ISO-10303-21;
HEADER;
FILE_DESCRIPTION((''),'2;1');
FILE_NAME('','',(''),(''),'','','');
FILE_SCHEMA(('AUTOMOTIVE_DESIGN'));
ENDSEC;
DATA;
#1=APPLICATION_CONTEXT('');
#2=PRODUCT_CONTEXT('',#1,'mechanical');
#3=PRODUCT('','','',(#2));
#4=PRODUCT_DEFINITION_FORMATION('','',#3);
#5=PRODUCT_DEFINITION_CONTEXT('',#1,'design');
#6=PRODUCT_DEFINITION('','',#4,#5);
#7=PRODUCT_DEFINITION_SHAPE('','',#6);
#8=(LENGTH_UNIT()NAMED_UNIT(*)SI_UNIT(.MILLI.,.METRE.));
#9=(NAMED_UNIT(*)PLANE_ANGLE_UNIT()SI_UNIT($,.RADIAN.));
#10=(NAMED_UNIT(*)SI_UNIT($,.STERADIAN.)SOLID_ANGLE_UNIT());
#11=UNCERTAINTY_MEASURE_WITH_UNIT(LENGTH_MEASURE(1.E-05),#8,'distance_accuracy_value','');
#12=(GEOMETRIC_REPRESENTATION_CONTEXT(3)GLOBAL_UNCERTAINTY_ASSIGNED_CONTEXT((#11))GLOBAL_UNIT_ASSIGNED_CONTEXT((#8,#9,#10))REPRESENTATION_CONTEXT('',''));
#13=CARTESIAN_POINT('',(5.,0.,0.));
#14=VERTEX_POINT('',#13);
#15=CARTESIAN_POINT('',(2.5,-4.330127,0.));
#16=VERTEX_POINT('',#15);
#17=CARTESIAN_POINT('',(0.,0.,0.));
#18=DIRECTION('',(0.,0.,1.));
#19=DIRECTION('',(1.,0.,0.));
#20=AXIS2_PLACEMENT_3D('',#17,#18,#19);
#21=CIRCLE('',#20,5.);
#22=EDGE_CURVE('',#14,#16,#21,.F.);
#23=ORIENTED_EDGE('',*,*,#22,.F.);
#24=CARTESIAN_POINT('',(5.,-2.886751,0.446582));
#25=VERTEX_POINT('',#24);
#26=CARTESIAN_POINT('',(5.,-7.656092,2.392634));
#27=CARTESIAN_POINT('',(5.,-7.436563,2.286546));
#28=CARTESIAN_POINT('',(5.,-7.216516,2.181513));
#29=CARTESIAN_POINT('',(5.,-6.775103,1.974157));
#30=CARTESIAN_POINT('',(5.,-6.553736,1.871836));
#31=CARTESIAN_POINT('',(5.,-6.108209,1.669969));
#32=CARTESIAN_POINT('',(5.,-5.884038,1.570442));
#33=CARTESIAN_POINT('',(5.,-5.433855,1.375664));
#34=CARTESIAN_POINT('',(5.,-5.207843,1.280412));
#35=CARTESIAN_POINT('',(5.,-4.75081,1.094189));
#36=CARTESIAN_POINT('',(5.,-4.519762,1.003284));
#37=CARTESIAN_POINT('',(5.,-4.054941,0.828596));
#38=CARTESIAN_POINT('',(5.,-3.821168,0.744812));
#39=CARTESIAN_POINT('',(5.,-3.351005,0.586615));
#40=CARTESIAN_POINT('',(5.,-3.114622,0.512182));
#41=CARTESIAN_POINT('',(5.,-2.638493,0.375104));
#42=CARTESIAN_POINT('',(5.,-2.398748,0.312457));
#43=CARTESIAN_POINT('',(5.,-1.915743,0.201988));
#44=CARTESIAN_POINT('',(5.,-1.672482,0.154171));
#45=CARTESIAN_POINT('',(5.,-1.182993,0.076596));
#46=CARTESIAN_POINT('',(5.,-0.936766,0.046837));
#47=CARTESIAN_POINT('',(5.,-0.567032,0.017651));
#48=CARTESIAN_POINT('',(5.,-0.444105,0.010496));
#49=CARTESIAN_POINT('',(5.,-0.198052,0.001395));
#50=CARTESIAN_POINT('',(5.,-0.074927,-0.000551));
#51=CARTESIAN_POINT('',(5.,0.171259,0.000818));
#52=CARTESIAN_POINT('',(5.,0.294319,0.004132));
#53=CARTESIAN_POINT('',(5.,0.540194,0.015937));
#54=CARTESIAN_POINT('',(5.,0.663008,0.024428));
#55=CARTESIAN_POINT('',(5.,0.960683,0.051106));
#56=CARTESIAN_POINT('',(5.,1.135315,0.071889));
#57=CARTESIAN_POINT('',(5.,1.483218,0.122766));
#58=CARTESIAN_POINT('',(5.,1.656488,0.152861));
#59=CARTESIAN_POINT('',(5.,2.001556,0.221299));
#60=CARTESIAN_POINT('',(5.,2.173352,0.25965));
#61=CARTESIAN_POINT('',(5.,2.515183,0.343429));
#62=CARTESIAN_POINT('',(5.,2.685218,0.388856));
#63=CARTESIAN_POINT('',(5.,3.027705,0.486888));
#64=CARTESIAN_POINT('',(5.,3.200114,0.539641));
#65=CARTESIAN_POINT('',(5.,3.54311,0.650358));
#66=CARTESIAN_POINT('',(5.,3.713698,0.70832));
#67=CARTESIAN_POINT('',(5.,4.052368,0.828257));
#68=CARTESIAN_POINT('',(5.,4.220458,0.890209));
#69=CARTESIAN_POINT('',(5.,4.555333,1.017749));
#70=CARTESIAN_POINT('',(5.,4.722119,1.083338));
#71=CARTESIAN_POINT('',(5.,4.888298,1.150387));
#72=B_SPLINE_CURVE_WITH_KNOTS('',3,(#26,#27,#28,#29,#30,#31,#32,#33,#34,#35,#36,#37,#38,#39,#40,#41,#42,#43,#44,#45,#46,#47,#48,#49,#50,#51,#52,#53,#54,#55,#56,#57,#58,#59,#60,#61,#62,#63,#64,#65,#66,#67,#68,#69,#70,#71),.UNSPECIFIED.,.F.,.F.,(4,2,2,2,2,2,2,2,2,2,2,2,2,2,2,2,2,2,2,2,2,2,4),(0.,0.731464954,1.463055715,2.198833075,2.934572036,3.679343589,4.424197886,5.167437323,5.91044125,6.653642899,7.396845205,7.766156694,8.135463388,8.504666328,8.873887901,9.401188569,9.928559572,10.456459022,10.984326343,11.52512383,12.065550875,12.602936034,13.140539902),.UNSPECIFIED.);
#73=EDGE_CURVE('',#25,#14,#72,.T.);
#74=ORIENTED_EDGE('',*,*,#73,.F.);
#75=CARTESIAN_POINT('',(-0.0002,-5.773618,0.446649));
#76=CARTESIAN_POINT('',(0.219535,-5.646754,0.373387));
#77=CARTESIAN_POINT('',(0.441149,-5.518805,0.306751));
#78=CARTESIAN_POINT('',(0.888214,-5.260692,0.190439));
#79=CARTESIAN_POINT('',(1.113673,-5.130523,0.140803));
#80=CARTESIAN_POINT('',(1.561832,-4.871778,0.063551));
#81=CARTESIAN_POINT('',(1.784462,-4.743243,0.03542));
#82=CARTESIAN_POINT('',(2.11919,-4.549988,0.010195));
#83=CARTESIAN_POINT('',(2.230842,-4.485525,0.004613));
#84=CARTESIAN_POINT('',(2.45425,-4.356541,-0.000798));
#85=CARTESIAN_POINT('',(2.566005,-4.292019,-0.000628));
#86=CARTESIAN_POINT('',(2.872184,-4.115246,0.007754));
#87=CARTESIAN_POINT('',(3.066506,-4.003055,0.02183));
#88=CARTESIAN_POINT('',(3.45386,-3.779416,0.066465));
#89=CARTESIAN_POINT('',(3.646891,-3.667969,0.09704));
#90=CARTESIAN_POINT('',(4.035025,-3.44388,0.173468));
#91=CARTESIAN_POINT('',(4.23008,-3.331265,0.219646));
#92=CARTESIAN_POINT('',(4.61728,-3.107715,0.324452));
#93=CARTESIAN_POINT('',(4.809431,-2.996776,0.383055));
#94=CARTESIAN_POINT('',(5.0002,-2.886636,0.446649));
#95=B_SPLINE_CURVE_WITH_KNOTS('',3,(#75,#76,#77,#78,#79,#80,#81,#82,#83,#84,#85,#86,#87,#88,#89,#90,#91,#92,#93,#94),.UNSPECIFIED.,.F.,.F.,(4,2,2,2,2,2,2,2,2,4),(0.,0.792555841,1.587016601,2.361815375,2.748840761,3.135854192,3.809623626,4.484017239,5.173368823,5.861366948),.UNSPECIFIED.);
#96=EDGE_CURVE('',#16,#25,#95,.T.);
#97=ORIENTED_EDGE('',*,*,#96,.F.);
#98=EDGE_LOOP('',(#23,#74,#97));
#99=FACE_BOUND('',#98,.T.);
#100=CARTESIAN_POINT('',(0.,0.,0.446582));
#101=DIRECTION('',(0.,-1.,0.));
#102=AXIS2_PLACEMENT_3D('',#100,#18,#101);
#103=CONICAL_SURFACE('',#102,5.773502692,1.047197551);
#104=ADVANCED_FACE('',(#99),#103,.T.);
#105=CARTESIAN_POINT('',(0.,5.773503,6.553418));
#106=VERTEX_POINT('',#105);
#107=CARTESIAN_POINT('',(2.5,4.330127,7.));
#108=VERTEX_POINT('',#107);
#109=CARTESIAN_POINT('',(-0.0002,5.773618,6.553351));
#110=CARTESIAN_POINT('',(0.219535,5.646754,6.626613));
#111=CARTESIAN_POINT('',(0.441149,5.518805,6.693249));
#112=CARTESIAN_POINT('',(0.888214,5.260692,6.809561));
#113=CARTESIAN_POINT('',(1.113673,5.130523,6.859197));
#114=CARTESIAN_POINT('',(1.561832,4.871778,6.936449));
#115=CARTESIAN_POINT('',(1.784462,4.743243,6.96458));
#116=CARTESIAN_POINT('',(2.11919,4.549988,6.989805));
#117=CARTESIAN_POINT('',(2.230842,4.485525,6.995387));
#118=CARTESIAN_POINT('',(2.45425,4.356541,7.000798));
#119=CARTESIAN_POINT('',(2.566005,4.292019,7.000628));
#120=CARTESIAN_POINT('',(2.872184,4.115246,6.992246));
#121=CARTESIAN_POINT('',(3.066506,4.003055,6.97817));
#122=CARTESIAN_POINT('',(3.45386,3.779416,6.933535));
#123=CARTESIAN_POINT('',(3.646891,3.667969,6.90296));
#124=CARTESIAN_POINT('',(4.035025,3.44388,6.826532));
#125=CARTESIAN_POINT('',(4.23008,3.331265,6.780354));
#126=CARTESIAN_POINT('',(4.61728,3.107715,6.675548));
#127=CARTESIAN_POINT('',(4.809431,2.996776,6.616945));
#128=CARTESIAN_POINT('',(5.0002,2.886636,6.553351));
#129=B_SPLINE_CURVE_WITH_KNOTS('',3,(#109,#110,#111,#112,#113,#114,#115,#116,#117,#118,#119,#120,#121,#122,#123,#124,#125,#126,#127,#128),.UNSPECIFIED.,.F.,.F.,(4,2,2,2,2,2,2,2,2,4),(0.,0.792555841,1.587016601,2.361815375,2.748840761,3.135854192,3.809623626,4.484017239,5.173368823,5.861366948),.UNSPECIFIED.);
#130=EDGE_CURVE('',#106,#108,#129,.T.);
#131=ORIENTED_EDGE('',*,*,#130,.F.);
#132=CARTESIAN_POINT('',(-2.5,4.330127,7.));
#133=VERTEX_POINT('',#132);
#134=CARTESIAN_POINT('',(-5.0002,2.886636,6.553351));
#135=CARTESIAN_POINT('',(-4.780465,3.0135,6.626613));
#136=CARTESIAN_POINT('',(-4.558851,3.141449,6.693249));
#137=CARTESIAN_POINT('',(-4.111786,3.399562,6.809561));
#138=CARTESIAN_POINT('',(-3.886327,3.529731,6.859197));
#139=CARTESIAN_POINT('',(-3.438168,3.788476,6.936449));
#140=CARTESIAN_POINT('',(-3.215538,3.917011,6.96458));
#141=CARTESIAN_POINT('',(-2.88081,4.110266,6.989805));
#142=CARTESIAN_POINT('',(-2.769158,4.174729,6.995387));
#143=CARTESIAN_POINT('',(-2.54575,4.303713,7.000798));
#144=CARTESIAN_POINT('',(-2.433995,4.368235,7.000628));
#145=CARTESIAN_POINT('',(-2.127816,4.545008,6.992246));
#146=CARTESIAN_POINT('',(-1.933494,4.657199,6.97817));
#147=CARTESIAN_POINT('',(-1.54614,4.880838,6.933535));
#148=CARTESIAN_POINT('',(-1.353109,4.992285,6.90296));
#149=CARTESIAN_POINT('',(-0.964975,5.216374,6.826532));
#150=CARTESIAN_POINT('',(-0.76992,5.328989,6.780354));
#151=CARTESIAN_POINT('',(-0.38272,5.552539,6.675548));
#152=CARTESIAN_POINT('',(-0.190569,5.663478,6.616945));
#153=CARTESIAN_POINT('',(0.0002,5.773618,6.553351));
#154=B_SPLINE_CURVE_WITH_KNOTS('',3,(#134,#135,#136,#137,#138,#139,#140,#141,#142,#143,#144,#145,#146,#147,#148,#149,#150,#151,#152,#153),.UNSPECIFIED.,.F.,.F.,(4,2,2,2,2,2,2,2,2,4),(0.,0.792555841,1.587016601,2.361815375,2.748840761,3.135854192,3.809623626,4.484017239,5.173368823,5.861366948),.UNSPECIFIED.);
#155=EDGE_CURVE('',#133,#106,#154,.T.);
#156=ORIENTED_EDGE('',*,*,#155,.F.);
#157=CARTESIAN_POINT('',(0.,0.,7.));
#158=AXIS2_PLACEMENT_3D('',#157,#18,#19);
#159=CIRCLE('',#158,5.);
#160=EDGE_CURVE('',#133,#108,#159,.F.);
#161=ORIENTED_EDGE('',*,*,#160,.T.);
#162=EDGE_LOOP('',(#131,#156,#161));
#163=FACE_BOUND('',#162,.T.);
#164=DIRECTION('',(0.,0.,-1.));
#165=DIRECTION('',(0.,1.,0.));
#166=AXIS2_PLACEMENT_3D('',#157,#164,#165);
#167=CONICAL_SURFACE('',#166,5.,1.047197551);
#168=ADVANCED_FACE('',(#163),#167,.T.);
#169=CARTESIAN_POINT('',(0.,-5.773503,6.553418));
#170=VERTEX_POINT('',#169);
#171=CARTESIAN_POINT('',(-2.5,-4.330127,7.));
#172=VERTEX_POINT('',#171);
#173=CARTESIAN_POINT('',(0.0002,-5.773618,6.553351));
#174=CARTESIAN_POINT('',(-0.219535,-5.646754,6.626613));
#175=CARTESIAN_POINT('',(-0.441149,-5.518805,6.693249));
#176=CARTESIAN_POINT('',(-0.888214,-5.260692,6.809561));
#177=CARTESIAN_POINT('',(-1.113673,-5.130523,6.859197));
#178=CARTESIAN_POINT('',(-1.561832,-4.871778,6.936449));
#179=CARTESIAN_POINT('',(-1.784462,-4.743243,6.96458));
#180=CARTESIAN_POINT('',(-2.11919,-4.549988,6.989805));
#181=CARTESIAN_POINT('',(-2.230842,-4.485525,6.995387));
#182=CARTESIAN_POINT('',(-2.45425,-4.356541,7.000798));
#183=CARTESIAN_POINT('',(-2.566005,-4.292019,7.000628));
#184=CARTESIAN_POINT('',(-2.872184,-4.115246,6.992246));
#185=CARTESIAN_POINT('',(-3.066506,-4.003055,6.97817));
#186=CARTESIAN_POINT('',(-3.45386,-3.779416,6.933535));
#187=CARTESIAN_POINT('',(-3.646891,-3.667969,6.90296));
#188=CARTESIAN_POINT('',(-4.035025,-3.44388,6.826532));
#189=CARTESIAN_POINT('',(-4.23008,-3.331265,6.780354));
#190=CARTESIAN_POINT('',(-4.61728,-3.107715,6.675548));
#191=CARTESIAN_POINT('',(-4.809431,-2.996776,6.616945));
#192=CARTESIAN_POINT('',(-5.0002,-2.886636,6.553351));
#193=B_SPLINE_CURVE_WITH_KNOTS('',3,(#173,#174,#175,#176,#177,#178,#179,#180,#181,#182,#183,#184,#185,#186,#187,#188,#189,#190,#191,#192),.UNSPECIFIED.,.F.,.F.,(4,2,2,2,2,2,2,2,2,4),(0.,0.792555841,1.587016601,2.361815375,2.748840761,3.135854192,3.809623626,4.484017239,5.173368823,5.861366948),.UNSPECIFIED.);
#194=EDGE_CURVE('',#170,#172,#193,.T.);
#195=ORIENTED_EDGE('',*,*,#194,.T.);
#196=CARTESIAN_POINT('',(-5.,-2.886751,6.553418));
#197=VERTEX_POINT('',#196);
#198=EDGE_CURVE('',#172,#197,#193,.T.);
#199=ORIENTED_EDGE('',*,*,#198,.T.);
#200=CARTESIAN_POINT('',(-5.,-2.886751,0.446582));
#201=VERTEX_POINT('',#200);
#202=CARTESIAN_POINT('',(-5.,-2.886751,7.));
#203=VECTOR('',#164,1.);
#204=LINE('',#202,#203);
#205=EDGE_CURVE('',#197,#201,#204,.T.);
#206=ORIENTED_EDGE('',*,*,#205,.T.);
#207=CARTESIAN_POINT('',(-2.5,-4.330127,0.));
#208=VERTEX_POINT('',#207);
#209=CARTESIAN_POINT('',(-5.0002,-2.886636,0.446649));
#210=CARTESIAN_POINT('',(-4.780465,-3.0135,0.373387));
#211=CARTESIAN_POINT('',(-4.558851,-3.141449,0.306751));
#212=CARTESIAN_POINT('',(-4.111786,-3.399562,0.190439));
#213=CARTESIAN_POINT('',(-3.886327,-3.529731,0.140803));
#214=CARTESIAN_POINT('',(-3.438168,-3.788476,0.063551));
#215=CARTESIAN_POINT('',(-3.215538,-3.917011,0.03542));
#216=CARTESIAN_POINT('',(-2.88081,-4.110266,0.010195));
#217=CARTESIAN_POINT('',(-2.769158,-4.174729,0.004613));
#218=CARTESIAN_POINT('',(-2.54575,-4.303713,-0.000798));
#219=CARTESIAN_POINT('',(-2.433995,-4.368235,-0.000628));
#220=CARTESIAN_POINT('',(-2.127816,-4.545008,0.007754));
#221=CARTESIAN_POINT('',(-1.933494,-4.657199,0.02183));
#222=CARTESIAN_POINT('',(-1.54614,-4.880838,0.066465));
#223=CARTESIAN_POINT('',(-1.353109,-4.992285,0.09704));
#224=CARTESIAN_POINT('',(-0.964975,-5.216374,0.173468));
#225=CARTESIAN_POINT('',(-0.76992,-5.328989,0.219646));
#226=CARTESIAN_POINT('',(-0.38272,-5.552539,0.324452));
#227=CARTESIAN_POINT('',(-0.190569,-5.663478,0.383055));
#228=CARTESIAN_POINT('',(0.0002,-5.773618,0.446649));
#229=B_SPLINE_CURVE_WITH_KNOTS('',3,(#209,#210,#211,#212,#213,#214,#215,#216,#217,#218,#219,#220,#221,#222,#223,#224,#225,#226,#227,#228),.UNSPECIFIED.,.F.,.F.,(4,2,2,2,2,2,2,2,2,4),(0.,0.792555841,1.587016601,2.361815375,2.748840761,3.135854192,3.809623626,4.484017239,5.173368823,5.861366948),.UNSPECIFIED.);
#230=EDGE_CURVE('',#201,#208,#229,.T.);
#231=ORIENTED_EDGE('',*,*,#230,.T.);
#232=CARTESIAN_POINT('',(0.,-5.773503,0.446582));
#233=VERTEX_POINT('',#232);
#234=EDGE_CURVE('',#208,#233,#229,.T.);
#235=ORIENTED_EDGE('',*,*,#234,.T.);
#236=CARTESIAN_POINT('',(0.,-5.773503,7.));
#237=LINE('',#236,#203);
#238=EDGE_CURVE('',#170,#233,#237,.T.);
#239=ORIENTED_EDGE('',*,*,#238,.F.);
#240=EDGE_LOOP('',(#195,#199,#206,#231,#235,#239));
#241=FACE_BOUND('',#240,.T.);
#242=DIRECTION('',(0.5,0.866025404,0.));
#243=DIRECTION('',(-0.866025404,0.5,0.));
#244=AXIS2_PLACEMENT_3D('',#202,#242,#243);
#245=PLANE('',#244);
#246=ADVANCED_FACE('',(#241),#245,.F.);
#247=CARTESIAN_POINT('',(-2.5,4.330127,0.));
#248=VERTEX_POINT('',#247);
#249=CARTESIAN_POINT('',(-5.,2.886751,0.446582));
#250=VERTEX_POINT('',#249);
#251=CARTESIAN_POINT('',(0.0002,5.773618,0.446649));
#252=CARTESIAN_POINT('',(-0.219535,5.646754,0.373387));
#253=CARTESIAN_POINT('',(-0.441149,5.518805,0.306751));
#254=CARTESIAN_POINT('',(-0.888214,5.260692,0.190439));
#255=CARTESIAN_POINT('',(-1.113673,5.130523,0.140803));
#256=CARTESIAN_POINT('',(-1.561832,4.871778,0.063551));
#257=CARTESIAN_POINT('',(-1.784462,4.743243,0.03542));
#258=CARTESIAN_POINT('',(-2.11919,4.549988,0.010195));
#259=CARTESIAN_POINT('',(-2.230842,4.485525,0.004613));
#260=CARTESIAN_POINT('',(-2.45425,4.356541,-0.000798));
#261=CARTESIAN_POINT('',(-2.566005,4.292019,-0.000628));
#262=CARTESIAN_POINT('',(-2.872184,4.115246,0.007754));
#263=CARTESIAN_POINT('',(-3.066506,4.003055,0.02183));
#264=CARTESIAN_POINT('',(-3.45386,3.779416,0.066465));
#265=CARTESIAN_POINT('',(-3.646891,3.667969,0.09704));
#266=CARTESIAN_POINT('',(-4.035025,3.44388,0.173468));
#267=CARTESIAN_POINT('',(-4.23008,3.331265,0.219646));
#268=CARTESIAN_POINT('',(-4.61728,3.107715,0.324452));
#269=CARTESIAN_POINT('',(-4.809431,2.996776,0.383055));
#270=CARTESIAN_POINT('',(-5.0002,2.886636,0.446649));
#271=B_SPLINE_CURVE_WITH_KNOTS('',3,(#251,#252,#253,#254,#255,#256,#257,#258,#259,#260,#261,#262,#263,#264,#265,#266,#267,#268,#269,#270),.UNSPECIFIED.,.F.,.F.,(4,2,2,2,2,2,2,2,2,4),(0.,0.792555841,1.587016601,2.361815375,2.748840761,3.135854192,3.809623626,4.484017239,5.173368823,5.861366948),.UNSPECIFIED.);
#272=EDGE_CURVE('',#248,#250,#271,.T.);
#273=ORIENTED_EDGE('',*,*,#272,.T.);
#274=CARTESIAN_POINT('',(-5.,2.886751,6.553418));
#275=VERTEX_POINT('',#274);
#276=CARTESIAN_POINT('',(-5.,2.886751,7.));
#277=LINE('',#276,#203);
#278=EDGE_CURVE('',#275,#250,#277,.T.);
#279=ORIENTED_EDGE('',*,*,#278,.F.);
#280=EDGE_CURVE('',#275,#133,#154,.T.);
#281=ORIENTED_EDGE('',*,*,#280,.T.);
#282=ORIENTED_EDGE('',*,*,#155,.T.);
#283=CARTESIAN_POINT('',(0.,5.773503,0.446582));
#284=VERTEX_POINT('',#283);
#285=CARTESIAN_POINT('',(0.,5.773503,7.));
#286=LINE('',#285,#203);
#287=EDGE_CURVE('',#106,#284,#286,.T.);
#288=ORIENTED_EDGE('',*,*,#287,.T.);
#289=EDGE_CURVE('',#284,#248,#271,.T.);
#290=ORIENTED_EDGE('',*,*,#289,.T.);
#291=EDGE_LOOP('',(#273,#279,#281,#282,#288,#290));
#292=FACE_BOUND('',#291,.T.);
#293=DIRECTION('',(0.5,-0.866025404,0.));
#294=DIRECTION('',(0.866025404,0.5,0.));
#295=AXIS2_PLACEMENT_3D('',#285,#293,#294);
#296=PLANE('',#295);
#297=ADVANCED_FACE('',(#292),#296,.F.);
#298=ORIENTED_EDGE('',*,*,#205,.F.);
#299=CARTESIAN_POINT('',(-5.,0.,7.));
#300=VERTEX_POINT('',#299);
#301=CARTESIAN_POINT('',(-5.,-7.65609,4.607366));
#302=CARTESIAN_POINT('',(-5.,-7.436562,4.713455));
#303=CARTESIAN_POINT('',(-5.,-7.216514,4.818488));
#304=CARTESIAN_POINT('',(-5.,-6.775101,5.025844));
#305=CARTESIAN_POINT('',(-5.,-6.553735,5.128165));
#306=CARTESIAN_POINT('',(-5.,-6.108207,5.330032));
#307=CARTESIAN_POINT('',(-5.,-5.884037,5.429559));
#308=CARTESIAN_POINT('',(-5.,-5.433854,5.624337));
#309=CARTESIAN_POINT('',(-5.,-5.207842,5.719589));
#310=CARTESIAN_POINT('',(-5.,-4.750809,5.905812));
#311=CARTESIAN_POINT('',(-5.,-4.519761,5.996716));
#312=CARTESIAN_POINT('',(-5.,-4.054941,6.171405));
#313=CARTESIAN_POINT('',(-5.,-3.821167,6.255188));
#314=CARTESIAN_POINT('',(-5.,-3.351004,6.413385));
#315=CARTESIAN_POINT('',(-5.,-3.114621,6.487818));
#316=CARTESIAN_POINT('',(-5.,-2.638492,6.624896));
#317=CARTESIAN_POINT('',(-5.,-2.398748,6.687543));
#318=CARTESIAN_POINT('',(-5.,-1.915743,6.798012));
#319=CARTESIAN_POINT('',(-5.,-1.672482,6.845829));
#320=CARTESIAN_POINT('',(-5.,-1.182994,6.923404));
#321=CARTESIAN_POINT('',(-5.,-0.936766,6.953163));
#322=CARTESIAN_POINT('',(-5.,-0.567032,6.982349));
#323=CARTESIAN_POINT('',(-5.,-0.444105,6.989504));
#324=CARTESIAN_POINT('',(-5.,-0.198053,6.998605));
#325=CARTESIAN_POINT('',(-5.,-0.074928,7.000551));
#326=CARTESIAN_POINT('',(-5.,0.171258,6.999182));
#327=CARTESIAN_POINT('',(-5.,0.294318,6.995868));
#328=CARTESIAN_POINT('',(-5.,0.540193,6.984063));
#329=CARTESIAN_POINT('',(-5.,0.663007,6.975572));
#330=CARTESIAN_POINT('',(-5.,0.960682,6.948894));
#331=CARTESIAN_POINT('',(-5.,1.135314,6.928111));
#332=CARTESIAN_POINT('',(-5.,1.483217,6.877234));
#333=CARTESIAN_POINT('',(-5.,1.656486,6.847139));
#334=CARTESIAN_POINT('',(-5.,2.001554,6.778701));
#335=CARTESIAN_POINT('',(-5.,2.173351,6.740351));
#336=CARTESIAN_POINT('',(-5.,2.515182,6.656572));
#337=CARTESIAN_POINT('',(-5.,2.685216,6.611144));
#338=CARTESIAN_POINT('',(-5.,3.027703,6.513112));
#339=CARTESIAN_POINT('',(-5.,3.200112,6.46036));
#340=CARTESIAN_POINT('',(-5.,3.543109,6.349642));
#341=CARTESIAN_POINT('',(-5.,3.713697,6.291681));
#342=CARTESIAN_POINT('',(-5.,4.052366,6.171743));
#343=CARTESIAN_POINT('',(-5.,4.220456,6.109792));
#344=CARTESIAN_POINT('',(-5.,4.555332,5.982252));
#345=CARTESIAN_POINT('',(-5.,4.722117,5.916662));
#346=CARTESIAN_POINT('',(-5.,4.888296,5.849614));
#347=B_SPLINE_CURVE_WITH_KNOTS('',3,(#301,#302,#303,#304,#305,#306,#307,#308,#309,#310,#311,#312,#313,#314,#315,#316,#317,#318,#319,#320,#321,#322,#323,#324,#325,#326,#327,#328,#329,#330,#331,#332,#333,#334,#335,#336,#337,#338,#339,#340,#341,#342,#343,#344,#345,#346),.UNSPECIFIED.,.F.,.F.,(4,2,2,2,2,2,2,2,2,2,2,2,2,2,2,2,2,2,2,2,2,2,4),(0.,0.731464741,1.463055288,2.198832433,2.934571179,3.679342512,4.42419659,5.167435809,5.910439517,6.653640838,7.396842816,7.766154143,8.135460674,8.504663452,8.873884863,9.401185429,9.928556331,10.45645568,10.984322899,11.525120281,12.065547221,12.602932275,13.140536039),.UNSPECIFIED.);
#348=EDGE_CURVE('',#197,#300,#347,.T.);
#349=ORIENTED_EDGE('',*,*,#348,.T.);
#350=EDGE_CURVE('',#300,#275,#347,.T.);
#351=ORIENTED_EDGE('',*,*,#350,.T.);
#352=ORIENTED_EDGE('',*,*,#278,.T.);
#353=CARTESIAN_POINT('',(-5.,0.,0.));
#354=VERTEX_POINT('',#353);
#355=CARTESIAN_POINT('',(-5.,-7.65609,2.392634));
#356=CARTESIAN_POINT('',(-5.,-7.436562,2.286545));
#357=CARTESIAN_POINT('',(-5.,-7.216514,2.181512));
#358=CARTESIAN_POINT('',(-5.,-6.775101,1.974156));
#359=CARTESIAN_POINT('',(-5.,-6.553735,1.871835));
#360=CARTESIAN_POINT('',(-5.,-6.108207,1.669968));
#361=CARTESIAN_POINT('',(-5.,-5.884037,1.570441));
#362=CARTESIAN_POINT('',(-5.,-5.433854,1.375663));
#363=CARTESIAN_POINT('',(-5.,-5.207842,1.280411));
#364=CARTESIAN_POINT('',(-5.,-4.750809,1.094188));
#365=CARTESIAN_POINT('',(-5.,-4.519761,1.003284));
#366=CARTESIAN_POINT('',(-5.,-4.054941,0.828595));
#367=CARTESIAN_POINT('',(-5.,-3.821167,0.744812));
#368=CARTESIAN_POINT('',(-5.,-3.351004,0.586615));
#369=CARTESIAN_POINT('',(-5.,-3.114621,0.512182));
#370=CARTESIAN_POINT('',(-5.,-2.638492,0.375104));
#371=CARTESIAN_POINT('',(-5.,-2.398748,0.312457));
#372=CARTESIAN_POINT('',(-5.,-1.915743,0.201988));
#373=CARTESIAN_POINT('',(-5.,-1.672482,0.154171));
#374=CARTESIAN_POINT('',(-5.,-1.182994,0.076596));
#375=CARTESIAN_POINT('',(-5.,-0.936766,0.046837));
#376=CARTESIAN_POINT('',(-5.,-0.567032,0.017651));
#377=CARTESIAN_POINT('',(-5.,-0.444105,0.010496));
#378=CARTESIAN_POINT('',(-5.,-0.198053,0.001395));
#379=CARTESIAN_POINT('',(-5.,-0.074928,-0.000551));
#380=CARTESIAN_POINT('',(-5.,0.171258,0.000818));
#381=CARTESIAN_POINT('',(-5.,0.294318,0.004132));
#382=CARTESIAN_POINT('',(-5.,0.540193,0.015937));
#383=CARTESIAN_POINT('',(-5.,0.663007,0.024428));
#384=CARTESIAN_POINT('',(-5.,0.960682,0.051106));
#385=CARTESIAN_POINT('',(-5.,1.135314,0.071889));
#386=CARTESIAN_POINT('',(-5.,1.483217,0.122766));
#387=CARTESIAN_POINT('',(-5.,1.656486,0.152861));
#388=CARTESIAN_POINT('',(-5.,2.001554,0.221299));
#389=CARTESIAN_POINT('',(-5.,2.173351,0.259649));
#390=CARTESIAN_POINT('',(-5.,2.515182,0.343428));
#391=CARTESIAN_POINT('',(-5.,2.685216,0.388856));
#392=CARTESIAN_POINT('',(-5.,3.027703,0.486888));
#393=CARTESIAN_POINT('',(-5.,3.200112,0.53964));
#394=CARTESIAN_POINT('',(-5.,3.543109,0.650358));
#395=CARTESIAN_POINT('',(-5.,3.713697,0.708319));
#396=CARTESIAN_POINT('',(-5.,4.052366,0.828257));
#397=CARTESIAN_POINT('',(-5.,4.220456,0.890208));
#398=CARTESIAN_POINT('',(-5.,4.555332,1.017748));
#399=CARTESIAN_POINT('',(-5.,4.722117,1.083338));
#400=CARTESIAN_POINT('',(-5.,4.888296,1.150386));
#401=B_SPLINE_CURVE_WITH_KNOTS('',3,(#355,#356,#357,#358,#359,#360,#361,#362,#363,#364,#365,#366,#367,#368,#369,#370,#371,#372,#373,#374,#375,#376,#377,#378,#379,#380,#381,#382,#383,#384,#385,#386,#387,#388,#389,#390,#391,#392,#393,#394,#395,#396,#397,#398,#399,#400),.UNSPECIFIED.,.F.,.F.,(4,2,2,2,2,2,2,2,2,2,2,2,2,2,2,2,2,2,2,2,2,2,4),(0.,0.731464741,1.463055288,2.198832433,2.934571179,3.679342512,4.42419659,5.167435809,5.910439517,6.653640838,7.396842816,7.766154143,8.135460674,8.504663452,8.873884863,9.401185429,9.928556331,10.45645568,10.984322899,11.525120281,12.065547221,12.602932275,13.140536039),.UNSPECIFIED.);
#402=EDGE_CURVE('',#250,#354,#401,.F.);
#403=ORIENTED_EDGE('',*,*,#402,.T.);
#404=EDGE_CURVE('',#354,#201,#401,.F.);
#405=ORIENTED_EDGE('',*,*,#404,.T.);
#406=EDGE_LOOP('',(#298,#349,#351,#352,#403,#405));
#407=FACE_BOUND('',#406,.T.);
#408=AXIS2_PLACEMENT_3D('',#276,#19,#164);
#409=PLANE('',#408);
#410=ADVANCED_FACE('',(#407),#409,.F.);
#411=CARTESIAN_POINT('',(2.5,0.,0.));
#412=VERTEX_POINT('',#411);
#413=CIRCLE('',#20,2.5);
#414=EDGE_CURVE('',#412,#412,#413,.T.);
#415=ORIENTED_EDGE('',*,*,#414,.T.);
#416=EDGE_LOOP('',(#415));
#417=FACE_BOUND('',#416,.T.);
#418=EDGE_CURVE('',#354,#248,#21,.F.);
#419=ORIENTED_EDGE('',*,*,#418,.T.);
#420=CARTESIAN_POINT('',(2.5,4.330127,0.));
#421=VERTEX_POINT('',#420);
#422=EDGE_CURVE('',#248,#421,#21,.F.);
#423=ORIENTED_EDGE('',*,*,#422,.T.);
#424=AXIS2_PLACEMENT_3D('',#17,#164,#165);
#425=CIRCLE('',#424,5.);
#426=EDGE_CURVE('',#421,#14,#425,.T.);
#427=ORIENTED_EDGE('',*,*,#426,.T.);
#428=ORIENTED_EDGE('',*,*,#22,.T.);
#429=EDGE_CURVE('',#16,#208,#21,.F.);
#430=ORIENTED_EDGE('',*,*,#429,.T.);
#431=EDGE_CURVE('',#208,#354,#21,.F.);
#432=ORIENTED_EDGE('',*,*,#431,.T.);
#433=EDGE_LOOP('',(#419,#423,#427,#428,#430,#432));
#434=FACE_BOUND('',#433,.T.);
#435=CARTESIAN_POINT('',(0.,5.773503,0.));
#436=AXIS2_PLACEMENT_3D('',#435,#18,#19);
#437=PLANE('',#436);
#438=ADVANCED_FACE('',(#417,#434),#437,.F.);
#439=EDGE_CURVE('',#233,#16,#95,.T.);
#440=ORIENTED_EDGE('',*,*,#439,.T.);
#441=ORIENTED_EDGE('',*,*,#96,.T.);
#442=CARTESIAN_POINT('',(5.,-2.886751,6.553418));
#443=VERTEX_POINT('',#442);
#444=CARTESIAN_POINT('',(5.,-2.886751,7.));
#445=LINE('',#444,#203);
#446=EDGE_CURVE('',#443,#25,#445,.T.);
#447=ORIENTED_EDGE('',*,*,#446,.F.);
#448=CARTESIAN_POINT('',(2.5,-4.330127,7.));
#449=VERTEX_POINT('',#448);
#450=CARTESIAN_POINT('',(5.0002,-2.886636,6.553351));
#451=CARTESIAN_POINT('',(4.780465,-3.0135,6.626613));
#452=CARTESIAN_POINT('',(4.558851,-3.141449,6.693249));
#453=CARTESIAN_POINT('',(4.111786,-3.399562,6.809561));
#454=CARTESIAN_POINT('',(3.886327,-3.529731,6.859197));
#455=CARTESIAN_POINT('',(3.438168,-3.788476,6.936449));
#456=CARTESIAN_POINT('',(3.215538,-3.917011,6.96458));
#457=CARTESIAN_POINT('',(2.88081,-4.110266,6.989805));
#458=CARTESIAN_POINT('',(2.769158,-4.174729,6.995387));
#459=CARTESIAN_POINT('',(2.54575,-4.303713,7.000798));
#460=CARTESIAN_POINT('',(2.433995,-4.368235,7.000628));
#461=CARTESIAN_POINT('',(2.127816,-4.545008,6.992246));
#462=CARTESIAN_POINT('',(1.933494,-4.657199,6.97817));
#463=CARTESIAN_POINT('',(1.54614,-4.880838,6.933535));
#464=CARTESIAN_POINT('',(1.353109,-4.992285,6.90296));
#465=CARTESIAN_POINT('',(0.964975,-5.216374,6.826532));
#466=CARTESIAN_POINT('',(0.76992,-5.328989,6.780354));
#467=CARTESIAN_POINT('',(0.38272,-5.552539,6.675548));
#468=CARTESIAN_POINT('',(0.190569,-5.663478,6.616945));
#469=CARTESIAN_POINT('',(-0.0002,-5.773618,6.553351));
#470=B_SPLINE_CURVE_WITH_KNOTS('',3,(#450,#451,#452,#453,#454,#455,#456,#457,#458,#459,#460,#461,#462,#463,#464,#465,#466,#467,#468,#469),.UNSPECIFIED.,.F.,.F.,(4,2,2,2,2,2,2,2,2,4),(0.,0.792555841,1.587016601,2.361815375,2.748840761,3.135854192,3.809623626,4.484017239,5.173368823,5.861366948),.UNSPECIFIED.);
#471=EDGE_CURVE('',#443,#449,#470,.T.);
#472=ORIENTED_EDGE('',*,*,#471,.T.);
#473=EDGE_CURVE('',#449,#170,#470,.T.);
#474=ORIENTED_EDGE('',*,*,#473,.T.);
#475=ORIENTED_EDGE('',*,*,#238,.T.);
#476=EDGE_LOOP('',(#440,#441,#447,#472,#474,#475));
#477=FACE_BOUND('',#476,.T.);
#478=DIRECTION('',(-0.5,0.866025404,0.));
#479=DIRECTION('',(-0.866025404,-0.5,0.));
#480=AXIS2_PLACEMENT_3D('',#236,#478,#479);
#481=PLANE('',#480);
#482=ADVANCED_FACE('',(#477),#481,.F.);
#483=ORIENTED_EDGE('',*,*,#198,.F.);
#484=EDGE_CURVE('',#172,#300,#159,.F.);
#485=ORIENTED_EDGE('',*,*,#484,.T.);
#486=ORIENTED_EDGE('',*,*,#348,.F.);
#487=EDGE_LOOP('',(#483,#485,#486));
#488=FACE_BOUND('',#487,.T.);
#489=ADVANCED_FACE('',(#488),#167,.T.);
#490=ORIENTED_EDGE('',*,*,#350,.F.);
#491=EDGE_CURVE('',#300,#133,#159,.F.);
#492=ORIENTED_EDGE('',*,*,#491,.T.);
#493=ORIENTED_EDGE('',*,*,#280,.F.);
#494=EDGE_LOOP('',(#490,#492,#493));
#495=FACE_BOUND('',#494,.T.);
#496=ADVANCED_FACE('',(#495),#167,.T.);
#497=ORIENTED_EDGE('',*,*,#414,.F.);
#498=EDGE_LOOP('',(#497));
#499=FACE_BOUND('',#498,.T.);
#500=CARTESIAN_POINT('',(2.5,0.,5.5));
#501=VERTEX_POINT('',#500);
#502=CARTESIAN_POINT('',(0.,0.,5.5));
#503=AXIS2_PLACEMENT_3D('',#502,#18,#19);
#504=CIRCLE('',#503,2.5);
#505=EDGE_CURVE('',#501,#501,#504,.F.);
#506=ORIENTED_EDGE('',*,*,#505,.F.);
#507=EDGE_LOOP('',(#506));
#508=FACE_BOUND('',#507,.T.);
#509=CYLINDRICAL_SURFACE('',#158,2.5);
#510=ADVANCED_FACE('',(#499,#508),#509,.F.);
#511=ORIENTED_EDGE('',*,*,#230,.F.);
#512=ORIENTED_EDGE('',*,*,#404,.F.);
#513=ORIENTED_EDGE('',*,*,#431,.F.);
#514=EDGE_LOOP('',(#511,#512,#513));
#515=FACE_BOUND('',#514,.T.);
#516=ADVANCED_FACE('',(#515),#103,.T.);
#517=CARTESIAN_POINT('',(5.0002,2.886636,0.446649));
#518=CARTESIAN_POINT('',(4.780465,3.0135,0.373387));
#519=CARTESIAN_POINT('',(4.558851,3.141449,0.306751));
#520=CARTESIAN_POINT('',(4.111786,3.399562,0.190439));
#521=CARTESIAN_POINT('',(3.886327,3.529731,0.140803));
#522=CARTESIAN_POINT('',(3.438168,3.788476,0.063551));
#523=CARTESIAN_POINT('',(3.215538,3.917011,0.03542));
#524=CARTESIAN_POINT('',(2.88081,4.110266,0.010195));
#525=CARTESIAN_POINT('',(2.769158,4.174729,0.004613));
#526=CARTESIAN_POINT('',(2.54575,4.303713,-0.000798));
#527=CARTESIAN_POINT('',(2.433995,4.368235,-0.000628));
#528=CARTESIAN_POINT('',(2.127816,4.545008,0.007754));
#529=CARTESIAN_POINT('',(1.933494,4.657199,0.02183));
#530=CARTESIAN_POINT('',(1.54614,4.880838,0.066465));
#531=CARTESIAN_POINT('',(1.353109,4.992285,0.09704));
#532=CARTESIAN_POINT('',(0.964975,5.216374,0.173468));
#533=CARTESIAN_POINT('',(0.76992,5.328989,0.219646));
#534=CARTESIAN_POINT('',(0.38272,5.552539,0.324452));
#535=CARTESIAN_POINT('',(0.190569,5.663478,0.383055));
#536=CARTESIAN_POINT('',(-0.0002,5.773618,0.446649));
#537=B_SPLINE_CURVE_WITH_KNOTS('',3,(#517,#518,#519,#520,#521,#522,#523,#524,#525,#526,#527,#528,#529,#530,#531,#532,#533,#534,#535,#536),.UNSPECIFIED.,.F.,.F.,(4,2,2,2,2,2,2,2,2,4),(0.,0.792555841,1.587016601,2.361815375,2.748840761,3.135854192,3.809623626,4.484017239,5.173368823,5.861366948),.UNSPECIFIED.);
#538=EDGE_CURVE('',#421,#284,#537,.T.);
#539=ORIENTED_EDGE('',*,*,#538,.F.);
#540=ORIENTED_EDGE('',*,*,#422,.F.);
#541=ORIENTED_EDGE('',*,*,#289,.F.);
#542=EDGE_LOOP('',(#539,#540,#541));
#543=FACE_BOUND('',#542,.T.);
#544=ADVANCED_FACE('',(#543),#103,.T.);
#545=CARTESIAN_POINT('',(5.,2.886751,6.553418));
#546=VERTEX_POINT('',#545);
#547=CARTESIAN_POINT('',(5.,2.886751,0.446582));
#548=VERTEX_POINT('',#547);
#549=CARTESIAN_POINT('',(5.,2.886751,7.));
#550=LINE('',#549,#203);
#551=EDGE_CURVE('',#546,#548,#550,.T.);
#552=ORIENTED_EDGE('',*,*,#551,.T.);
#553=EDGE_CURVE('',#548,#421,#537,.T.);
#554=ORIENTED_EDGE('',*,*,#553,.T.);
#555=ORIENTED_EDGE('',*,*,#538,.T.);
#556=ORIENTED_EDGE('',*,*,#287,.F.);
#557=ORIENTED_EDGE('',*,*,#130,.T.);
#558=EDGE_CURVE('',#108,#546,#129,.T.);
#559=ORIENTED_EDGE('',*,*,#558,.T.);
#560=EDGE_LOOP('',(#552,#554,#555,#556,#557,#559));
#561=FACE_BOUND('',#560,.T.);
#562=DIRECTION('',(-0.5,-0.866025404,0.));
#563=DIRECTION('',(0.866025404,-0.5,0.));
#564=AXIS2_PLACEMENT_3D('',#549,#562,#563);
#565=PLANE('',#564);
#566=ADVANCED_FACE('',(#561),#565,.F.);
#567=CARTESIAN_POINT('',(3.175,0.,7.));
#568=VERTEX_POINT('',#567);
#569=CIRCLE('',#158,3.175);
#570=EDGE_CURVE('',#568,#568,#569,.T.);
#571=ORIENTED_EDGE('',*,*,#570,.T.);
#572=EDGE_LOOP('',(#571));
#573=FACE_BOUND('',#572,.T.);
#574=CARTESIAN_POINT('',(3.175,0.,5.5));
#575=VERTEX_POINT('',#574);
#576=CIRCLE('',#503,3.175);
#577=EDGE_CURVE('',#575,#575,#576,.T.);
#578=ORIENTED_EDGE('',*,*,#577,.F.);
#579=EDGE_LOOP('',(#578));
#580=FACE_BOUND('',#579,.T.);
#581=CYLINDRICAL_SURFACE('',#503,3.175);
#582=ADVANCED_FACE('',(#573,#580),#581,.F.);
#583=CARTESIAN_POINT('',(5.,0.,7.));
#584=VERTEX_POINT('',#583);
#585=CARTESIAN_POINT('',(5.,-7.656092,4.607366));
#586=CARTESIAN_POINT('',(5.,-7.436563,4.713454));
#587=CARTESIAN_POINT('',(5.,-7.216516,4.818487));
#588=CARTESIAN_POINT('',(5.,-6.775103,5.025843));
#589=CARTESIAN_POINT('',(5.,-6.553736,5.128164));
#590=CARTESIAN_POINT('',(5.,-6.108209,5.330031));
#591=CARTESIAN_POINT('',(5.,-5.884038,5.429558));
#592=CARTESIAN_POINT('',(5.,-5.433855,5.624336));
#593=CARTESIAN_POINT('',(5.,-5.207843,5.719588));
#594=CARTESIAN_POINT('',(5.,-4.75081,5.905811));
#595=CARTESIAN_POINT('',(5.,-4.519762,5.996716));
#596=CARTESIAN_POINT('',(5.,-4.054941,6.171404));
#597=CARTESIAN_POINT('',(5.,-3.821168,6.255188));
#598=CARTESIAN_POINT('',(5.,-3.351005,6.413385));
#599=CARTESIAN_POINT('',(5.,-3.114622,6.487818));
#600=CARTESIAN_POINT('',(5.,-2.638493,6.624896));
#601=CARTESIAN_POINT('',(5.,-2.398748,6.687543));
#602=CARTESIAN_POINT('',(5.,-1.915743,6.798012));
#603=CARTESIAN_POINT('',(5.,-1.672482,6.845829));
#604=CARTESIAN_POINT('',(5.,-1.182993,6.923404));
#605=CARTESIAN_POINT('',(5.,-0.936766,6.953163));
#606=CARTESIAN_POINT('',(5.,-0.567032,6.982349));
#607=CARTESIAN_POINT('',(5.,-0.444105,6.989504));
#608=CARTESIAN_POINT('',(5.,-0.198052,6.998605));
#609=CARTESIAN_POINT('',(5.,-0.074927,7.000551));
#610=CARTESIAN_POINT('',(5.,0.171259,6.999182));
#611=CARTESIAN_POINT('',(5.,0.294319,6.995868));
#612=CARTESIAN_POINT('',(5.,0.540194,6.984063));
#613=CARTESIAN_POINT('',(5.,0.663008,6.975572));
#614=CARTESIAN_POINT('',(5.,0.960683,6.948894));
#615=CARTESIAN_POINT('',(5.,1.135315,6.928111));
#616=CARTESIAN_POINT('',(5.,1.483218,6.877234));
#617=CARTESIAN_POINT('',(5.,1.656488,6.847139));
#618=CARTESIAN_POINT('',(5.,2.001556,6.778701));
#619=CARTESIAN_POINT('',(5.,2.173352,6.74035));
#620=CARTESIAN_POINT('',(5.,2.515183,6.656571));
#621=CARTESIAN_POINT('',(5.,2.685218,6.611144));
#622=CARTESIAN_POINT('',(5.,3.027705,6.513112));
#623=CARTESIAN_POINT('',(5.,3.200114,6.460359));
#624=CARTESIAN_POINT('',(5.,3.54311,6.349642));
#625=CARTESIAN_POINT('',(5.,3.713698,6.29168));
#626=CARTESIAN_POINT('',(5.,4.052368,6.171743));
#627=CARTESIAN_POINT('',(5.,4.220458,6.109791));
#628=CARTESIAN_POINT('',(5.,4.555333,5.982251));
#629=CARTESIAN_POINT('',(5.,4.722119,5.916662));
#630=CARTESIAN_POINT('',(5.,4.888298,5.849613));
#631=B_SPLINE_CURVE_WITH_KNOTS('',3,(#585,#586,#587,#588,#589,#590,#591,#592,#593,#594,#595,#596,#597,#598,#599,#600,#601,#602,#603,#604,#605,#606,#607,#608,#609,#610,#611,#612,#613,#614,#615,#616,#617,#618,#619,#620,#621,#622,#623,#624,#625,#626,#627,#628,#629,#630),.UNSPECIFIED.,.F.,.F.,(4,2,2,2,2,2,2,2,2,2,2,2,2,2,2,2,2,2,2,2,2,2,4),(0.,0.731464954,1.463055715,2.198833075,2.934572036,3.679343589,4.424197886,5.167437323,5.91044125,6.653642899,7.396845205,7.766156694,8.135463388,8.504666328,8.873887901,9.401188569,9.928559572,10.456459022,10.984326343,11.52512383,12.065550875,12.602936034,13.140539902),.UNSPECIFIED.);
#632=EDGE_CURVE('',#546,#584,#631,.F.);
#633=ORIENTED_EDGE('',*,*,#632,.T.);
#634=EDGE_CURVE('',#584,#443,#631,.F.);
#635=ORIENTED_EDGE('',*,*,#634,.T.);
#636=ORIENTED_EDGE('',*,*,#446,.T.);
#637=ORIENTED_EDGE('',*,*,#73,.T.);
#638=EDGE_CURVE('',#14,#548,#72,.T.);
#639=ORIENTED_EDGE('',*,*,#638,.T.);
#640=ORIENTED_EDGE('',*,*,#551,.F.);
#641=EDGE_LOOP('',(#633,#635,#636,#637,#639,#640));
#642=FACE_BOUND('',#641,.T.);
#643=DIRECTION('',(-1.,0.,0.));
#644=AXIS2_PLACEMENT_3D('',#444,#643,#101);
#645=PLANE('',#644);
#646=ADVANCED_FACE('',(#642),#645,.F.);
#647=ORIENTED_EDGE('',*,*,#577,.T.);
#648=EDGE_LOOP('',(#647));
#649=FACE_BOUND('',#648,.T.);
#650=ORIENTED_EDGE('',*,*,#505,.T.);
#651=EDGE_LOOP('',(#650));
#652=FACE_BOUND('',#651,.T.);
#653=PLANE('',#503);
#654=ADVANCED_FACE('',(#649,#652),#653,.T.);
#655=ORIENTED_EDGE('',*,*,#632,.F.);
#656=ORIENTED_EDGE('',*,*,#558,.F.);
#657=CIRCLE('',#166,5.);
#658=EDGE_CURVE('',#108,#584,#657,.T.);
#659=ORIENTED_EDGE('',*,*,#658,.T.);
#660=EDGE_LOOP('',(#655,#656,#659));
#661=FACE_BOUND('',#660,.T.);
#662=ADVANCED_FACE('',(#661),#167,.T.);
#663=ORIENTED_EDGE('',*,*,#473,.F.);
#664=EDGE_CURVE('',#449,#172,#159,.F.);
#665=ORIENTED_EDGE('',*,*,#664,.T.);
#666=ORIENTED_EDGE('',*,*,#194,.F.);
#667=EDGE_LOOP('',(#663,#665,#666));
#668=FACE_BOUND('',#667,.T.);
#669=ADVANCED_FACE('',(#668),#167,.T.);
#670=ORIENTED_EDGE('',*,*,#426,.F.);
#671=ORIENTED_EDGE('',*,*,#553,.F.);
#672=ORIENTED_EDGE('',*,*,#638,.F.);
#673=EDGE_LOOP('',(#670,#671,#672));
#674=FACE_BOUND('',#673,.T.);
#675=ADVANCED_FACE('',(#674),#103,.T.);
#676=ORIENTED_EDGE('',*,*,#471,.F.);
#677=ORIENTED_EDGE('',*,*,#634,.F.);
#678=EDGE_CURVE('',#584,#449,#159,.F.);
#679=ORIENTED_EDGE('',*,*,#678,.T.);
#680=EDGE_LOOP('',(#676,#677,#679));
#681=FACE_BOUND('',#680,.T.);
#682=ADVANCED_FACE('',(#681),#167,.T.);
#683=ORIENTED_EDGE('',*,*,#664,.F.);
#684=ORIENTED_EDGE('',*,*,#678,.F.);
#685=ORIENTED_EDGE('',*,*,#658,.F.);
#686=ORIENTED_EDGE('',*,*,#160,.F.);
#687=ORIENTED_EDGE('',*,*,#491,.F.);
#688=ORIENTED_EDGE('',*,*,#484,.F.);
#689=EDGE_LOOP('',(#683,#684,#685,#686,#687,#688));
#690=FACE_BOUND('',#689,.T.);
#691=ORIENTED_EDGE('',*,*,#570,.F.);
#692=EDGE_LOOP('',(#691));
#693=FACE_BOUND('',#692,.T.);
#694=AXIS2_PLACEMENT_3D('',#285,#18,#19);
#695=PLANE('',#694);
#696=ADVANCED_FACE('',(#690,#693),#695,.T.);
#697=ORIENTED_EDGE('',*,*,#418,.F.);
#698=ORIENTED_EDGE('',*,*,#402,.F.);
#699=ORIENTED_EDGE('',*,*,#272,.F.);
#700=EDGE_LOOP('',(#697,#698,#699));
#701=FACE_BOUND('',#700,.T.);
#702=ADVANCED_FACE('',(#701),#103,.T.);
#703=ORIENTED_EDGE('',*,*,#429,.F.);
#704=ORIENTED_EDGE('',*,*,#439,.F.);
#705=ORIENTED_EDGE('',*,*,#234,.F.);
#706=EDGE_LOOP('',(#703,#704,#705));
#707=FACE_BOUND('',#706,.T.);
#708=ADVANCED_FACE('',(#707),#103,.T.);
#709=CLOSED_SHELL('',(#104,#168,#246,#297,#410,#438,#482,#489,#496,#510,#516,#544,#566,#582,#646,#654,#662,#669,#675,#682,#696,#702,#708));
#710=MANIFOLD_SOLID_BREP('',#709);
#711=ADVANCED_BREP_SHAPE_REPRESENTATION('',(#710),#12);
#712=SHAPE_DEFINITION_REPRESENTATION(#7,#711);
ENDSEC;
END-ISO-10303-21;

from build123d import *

# Parameters (mm, degrees)
BOSS_EXTRUDE1_DEPTH       = 7
M6X1_0_TAPPED_HOLE1_D     = 5
M6X1_0_TAPPED_HOLE1_DEPTH = 15
M6X1_0_TAPPED_HOLE1_TIP   = 1.502151548
SKETCH5_R                 = 3.175
CUT_EXTRUDE1_DEPTH        = 1.5


with BuildPart() as part:
    # Sketch1 → Boss-Extrude1 (new body)
    with BuildSketch(Plane.XY):
        Polygon((0, 5.773502692), (-5, 2.886751346), (-5, -2.886751346), (0, -5.773502692), (5, -2.886751346), (5, 2.886751346), align=None)
    extrude(amount=BOSS_EXTRUDE1_DEPTH)

    # M6x1.0 Tapped Hole1
    with Locations(Plane.XY.offset(7)):
        with Locations((0, 0)):
            Hole(M6X1_0_TAPPED_HOLE1_D / 2, depth=M6X1_0_TAPPED_HOLE1_DEPTH)
            with Locations((0, 0, -(M6X1_0_TAPPED_HOLE1_DEPTH + M6X1_0_TAPPED_HOLE1_TIP / 2))):  # 118° drill point
                Cone(0, M6X1_0_TAPPED_HOLE1_D / 2, M6X1_0_TAPPED_HOLE1_TIP, mode=Mode.SUBTRACT)

    # Sketch4 → Cut-Revolve1 (revolve, cut)
    with BuildSketch(Plane(origin=(0, 0, 0), x_dir=(0, 0, -1), z_dir=(1, 0, 0)), mode=Mode.PRIVATE) as cut_revolve1_sk:
        Polygon((-6.553418013, 5.773502692), (-7, 5), (-7, 5.773502692), align=None)
        Polygon((0, 5.773502692), (-0.446581987, 5.773502692), (0, 5), align=None)
    revolve(cut_revolve1_sk.sketch.rotate(Axis((0, 0, 0), (0, 0, 1)), 270), axis=Axis((0, 0, 0), (0, 0, 1)), mode=Mode.SUBTRACT)

    # Sketch5 → Cut-Extrude1 (cut)
    with BuildSketch(Plane.XY.offset(7)):
        Circle(SKETCH5_R)
    extrude(amount=-CUT_EXTRUDE1_DEPTH, mode=Mode.SUBTRACT)


solid = part.part
